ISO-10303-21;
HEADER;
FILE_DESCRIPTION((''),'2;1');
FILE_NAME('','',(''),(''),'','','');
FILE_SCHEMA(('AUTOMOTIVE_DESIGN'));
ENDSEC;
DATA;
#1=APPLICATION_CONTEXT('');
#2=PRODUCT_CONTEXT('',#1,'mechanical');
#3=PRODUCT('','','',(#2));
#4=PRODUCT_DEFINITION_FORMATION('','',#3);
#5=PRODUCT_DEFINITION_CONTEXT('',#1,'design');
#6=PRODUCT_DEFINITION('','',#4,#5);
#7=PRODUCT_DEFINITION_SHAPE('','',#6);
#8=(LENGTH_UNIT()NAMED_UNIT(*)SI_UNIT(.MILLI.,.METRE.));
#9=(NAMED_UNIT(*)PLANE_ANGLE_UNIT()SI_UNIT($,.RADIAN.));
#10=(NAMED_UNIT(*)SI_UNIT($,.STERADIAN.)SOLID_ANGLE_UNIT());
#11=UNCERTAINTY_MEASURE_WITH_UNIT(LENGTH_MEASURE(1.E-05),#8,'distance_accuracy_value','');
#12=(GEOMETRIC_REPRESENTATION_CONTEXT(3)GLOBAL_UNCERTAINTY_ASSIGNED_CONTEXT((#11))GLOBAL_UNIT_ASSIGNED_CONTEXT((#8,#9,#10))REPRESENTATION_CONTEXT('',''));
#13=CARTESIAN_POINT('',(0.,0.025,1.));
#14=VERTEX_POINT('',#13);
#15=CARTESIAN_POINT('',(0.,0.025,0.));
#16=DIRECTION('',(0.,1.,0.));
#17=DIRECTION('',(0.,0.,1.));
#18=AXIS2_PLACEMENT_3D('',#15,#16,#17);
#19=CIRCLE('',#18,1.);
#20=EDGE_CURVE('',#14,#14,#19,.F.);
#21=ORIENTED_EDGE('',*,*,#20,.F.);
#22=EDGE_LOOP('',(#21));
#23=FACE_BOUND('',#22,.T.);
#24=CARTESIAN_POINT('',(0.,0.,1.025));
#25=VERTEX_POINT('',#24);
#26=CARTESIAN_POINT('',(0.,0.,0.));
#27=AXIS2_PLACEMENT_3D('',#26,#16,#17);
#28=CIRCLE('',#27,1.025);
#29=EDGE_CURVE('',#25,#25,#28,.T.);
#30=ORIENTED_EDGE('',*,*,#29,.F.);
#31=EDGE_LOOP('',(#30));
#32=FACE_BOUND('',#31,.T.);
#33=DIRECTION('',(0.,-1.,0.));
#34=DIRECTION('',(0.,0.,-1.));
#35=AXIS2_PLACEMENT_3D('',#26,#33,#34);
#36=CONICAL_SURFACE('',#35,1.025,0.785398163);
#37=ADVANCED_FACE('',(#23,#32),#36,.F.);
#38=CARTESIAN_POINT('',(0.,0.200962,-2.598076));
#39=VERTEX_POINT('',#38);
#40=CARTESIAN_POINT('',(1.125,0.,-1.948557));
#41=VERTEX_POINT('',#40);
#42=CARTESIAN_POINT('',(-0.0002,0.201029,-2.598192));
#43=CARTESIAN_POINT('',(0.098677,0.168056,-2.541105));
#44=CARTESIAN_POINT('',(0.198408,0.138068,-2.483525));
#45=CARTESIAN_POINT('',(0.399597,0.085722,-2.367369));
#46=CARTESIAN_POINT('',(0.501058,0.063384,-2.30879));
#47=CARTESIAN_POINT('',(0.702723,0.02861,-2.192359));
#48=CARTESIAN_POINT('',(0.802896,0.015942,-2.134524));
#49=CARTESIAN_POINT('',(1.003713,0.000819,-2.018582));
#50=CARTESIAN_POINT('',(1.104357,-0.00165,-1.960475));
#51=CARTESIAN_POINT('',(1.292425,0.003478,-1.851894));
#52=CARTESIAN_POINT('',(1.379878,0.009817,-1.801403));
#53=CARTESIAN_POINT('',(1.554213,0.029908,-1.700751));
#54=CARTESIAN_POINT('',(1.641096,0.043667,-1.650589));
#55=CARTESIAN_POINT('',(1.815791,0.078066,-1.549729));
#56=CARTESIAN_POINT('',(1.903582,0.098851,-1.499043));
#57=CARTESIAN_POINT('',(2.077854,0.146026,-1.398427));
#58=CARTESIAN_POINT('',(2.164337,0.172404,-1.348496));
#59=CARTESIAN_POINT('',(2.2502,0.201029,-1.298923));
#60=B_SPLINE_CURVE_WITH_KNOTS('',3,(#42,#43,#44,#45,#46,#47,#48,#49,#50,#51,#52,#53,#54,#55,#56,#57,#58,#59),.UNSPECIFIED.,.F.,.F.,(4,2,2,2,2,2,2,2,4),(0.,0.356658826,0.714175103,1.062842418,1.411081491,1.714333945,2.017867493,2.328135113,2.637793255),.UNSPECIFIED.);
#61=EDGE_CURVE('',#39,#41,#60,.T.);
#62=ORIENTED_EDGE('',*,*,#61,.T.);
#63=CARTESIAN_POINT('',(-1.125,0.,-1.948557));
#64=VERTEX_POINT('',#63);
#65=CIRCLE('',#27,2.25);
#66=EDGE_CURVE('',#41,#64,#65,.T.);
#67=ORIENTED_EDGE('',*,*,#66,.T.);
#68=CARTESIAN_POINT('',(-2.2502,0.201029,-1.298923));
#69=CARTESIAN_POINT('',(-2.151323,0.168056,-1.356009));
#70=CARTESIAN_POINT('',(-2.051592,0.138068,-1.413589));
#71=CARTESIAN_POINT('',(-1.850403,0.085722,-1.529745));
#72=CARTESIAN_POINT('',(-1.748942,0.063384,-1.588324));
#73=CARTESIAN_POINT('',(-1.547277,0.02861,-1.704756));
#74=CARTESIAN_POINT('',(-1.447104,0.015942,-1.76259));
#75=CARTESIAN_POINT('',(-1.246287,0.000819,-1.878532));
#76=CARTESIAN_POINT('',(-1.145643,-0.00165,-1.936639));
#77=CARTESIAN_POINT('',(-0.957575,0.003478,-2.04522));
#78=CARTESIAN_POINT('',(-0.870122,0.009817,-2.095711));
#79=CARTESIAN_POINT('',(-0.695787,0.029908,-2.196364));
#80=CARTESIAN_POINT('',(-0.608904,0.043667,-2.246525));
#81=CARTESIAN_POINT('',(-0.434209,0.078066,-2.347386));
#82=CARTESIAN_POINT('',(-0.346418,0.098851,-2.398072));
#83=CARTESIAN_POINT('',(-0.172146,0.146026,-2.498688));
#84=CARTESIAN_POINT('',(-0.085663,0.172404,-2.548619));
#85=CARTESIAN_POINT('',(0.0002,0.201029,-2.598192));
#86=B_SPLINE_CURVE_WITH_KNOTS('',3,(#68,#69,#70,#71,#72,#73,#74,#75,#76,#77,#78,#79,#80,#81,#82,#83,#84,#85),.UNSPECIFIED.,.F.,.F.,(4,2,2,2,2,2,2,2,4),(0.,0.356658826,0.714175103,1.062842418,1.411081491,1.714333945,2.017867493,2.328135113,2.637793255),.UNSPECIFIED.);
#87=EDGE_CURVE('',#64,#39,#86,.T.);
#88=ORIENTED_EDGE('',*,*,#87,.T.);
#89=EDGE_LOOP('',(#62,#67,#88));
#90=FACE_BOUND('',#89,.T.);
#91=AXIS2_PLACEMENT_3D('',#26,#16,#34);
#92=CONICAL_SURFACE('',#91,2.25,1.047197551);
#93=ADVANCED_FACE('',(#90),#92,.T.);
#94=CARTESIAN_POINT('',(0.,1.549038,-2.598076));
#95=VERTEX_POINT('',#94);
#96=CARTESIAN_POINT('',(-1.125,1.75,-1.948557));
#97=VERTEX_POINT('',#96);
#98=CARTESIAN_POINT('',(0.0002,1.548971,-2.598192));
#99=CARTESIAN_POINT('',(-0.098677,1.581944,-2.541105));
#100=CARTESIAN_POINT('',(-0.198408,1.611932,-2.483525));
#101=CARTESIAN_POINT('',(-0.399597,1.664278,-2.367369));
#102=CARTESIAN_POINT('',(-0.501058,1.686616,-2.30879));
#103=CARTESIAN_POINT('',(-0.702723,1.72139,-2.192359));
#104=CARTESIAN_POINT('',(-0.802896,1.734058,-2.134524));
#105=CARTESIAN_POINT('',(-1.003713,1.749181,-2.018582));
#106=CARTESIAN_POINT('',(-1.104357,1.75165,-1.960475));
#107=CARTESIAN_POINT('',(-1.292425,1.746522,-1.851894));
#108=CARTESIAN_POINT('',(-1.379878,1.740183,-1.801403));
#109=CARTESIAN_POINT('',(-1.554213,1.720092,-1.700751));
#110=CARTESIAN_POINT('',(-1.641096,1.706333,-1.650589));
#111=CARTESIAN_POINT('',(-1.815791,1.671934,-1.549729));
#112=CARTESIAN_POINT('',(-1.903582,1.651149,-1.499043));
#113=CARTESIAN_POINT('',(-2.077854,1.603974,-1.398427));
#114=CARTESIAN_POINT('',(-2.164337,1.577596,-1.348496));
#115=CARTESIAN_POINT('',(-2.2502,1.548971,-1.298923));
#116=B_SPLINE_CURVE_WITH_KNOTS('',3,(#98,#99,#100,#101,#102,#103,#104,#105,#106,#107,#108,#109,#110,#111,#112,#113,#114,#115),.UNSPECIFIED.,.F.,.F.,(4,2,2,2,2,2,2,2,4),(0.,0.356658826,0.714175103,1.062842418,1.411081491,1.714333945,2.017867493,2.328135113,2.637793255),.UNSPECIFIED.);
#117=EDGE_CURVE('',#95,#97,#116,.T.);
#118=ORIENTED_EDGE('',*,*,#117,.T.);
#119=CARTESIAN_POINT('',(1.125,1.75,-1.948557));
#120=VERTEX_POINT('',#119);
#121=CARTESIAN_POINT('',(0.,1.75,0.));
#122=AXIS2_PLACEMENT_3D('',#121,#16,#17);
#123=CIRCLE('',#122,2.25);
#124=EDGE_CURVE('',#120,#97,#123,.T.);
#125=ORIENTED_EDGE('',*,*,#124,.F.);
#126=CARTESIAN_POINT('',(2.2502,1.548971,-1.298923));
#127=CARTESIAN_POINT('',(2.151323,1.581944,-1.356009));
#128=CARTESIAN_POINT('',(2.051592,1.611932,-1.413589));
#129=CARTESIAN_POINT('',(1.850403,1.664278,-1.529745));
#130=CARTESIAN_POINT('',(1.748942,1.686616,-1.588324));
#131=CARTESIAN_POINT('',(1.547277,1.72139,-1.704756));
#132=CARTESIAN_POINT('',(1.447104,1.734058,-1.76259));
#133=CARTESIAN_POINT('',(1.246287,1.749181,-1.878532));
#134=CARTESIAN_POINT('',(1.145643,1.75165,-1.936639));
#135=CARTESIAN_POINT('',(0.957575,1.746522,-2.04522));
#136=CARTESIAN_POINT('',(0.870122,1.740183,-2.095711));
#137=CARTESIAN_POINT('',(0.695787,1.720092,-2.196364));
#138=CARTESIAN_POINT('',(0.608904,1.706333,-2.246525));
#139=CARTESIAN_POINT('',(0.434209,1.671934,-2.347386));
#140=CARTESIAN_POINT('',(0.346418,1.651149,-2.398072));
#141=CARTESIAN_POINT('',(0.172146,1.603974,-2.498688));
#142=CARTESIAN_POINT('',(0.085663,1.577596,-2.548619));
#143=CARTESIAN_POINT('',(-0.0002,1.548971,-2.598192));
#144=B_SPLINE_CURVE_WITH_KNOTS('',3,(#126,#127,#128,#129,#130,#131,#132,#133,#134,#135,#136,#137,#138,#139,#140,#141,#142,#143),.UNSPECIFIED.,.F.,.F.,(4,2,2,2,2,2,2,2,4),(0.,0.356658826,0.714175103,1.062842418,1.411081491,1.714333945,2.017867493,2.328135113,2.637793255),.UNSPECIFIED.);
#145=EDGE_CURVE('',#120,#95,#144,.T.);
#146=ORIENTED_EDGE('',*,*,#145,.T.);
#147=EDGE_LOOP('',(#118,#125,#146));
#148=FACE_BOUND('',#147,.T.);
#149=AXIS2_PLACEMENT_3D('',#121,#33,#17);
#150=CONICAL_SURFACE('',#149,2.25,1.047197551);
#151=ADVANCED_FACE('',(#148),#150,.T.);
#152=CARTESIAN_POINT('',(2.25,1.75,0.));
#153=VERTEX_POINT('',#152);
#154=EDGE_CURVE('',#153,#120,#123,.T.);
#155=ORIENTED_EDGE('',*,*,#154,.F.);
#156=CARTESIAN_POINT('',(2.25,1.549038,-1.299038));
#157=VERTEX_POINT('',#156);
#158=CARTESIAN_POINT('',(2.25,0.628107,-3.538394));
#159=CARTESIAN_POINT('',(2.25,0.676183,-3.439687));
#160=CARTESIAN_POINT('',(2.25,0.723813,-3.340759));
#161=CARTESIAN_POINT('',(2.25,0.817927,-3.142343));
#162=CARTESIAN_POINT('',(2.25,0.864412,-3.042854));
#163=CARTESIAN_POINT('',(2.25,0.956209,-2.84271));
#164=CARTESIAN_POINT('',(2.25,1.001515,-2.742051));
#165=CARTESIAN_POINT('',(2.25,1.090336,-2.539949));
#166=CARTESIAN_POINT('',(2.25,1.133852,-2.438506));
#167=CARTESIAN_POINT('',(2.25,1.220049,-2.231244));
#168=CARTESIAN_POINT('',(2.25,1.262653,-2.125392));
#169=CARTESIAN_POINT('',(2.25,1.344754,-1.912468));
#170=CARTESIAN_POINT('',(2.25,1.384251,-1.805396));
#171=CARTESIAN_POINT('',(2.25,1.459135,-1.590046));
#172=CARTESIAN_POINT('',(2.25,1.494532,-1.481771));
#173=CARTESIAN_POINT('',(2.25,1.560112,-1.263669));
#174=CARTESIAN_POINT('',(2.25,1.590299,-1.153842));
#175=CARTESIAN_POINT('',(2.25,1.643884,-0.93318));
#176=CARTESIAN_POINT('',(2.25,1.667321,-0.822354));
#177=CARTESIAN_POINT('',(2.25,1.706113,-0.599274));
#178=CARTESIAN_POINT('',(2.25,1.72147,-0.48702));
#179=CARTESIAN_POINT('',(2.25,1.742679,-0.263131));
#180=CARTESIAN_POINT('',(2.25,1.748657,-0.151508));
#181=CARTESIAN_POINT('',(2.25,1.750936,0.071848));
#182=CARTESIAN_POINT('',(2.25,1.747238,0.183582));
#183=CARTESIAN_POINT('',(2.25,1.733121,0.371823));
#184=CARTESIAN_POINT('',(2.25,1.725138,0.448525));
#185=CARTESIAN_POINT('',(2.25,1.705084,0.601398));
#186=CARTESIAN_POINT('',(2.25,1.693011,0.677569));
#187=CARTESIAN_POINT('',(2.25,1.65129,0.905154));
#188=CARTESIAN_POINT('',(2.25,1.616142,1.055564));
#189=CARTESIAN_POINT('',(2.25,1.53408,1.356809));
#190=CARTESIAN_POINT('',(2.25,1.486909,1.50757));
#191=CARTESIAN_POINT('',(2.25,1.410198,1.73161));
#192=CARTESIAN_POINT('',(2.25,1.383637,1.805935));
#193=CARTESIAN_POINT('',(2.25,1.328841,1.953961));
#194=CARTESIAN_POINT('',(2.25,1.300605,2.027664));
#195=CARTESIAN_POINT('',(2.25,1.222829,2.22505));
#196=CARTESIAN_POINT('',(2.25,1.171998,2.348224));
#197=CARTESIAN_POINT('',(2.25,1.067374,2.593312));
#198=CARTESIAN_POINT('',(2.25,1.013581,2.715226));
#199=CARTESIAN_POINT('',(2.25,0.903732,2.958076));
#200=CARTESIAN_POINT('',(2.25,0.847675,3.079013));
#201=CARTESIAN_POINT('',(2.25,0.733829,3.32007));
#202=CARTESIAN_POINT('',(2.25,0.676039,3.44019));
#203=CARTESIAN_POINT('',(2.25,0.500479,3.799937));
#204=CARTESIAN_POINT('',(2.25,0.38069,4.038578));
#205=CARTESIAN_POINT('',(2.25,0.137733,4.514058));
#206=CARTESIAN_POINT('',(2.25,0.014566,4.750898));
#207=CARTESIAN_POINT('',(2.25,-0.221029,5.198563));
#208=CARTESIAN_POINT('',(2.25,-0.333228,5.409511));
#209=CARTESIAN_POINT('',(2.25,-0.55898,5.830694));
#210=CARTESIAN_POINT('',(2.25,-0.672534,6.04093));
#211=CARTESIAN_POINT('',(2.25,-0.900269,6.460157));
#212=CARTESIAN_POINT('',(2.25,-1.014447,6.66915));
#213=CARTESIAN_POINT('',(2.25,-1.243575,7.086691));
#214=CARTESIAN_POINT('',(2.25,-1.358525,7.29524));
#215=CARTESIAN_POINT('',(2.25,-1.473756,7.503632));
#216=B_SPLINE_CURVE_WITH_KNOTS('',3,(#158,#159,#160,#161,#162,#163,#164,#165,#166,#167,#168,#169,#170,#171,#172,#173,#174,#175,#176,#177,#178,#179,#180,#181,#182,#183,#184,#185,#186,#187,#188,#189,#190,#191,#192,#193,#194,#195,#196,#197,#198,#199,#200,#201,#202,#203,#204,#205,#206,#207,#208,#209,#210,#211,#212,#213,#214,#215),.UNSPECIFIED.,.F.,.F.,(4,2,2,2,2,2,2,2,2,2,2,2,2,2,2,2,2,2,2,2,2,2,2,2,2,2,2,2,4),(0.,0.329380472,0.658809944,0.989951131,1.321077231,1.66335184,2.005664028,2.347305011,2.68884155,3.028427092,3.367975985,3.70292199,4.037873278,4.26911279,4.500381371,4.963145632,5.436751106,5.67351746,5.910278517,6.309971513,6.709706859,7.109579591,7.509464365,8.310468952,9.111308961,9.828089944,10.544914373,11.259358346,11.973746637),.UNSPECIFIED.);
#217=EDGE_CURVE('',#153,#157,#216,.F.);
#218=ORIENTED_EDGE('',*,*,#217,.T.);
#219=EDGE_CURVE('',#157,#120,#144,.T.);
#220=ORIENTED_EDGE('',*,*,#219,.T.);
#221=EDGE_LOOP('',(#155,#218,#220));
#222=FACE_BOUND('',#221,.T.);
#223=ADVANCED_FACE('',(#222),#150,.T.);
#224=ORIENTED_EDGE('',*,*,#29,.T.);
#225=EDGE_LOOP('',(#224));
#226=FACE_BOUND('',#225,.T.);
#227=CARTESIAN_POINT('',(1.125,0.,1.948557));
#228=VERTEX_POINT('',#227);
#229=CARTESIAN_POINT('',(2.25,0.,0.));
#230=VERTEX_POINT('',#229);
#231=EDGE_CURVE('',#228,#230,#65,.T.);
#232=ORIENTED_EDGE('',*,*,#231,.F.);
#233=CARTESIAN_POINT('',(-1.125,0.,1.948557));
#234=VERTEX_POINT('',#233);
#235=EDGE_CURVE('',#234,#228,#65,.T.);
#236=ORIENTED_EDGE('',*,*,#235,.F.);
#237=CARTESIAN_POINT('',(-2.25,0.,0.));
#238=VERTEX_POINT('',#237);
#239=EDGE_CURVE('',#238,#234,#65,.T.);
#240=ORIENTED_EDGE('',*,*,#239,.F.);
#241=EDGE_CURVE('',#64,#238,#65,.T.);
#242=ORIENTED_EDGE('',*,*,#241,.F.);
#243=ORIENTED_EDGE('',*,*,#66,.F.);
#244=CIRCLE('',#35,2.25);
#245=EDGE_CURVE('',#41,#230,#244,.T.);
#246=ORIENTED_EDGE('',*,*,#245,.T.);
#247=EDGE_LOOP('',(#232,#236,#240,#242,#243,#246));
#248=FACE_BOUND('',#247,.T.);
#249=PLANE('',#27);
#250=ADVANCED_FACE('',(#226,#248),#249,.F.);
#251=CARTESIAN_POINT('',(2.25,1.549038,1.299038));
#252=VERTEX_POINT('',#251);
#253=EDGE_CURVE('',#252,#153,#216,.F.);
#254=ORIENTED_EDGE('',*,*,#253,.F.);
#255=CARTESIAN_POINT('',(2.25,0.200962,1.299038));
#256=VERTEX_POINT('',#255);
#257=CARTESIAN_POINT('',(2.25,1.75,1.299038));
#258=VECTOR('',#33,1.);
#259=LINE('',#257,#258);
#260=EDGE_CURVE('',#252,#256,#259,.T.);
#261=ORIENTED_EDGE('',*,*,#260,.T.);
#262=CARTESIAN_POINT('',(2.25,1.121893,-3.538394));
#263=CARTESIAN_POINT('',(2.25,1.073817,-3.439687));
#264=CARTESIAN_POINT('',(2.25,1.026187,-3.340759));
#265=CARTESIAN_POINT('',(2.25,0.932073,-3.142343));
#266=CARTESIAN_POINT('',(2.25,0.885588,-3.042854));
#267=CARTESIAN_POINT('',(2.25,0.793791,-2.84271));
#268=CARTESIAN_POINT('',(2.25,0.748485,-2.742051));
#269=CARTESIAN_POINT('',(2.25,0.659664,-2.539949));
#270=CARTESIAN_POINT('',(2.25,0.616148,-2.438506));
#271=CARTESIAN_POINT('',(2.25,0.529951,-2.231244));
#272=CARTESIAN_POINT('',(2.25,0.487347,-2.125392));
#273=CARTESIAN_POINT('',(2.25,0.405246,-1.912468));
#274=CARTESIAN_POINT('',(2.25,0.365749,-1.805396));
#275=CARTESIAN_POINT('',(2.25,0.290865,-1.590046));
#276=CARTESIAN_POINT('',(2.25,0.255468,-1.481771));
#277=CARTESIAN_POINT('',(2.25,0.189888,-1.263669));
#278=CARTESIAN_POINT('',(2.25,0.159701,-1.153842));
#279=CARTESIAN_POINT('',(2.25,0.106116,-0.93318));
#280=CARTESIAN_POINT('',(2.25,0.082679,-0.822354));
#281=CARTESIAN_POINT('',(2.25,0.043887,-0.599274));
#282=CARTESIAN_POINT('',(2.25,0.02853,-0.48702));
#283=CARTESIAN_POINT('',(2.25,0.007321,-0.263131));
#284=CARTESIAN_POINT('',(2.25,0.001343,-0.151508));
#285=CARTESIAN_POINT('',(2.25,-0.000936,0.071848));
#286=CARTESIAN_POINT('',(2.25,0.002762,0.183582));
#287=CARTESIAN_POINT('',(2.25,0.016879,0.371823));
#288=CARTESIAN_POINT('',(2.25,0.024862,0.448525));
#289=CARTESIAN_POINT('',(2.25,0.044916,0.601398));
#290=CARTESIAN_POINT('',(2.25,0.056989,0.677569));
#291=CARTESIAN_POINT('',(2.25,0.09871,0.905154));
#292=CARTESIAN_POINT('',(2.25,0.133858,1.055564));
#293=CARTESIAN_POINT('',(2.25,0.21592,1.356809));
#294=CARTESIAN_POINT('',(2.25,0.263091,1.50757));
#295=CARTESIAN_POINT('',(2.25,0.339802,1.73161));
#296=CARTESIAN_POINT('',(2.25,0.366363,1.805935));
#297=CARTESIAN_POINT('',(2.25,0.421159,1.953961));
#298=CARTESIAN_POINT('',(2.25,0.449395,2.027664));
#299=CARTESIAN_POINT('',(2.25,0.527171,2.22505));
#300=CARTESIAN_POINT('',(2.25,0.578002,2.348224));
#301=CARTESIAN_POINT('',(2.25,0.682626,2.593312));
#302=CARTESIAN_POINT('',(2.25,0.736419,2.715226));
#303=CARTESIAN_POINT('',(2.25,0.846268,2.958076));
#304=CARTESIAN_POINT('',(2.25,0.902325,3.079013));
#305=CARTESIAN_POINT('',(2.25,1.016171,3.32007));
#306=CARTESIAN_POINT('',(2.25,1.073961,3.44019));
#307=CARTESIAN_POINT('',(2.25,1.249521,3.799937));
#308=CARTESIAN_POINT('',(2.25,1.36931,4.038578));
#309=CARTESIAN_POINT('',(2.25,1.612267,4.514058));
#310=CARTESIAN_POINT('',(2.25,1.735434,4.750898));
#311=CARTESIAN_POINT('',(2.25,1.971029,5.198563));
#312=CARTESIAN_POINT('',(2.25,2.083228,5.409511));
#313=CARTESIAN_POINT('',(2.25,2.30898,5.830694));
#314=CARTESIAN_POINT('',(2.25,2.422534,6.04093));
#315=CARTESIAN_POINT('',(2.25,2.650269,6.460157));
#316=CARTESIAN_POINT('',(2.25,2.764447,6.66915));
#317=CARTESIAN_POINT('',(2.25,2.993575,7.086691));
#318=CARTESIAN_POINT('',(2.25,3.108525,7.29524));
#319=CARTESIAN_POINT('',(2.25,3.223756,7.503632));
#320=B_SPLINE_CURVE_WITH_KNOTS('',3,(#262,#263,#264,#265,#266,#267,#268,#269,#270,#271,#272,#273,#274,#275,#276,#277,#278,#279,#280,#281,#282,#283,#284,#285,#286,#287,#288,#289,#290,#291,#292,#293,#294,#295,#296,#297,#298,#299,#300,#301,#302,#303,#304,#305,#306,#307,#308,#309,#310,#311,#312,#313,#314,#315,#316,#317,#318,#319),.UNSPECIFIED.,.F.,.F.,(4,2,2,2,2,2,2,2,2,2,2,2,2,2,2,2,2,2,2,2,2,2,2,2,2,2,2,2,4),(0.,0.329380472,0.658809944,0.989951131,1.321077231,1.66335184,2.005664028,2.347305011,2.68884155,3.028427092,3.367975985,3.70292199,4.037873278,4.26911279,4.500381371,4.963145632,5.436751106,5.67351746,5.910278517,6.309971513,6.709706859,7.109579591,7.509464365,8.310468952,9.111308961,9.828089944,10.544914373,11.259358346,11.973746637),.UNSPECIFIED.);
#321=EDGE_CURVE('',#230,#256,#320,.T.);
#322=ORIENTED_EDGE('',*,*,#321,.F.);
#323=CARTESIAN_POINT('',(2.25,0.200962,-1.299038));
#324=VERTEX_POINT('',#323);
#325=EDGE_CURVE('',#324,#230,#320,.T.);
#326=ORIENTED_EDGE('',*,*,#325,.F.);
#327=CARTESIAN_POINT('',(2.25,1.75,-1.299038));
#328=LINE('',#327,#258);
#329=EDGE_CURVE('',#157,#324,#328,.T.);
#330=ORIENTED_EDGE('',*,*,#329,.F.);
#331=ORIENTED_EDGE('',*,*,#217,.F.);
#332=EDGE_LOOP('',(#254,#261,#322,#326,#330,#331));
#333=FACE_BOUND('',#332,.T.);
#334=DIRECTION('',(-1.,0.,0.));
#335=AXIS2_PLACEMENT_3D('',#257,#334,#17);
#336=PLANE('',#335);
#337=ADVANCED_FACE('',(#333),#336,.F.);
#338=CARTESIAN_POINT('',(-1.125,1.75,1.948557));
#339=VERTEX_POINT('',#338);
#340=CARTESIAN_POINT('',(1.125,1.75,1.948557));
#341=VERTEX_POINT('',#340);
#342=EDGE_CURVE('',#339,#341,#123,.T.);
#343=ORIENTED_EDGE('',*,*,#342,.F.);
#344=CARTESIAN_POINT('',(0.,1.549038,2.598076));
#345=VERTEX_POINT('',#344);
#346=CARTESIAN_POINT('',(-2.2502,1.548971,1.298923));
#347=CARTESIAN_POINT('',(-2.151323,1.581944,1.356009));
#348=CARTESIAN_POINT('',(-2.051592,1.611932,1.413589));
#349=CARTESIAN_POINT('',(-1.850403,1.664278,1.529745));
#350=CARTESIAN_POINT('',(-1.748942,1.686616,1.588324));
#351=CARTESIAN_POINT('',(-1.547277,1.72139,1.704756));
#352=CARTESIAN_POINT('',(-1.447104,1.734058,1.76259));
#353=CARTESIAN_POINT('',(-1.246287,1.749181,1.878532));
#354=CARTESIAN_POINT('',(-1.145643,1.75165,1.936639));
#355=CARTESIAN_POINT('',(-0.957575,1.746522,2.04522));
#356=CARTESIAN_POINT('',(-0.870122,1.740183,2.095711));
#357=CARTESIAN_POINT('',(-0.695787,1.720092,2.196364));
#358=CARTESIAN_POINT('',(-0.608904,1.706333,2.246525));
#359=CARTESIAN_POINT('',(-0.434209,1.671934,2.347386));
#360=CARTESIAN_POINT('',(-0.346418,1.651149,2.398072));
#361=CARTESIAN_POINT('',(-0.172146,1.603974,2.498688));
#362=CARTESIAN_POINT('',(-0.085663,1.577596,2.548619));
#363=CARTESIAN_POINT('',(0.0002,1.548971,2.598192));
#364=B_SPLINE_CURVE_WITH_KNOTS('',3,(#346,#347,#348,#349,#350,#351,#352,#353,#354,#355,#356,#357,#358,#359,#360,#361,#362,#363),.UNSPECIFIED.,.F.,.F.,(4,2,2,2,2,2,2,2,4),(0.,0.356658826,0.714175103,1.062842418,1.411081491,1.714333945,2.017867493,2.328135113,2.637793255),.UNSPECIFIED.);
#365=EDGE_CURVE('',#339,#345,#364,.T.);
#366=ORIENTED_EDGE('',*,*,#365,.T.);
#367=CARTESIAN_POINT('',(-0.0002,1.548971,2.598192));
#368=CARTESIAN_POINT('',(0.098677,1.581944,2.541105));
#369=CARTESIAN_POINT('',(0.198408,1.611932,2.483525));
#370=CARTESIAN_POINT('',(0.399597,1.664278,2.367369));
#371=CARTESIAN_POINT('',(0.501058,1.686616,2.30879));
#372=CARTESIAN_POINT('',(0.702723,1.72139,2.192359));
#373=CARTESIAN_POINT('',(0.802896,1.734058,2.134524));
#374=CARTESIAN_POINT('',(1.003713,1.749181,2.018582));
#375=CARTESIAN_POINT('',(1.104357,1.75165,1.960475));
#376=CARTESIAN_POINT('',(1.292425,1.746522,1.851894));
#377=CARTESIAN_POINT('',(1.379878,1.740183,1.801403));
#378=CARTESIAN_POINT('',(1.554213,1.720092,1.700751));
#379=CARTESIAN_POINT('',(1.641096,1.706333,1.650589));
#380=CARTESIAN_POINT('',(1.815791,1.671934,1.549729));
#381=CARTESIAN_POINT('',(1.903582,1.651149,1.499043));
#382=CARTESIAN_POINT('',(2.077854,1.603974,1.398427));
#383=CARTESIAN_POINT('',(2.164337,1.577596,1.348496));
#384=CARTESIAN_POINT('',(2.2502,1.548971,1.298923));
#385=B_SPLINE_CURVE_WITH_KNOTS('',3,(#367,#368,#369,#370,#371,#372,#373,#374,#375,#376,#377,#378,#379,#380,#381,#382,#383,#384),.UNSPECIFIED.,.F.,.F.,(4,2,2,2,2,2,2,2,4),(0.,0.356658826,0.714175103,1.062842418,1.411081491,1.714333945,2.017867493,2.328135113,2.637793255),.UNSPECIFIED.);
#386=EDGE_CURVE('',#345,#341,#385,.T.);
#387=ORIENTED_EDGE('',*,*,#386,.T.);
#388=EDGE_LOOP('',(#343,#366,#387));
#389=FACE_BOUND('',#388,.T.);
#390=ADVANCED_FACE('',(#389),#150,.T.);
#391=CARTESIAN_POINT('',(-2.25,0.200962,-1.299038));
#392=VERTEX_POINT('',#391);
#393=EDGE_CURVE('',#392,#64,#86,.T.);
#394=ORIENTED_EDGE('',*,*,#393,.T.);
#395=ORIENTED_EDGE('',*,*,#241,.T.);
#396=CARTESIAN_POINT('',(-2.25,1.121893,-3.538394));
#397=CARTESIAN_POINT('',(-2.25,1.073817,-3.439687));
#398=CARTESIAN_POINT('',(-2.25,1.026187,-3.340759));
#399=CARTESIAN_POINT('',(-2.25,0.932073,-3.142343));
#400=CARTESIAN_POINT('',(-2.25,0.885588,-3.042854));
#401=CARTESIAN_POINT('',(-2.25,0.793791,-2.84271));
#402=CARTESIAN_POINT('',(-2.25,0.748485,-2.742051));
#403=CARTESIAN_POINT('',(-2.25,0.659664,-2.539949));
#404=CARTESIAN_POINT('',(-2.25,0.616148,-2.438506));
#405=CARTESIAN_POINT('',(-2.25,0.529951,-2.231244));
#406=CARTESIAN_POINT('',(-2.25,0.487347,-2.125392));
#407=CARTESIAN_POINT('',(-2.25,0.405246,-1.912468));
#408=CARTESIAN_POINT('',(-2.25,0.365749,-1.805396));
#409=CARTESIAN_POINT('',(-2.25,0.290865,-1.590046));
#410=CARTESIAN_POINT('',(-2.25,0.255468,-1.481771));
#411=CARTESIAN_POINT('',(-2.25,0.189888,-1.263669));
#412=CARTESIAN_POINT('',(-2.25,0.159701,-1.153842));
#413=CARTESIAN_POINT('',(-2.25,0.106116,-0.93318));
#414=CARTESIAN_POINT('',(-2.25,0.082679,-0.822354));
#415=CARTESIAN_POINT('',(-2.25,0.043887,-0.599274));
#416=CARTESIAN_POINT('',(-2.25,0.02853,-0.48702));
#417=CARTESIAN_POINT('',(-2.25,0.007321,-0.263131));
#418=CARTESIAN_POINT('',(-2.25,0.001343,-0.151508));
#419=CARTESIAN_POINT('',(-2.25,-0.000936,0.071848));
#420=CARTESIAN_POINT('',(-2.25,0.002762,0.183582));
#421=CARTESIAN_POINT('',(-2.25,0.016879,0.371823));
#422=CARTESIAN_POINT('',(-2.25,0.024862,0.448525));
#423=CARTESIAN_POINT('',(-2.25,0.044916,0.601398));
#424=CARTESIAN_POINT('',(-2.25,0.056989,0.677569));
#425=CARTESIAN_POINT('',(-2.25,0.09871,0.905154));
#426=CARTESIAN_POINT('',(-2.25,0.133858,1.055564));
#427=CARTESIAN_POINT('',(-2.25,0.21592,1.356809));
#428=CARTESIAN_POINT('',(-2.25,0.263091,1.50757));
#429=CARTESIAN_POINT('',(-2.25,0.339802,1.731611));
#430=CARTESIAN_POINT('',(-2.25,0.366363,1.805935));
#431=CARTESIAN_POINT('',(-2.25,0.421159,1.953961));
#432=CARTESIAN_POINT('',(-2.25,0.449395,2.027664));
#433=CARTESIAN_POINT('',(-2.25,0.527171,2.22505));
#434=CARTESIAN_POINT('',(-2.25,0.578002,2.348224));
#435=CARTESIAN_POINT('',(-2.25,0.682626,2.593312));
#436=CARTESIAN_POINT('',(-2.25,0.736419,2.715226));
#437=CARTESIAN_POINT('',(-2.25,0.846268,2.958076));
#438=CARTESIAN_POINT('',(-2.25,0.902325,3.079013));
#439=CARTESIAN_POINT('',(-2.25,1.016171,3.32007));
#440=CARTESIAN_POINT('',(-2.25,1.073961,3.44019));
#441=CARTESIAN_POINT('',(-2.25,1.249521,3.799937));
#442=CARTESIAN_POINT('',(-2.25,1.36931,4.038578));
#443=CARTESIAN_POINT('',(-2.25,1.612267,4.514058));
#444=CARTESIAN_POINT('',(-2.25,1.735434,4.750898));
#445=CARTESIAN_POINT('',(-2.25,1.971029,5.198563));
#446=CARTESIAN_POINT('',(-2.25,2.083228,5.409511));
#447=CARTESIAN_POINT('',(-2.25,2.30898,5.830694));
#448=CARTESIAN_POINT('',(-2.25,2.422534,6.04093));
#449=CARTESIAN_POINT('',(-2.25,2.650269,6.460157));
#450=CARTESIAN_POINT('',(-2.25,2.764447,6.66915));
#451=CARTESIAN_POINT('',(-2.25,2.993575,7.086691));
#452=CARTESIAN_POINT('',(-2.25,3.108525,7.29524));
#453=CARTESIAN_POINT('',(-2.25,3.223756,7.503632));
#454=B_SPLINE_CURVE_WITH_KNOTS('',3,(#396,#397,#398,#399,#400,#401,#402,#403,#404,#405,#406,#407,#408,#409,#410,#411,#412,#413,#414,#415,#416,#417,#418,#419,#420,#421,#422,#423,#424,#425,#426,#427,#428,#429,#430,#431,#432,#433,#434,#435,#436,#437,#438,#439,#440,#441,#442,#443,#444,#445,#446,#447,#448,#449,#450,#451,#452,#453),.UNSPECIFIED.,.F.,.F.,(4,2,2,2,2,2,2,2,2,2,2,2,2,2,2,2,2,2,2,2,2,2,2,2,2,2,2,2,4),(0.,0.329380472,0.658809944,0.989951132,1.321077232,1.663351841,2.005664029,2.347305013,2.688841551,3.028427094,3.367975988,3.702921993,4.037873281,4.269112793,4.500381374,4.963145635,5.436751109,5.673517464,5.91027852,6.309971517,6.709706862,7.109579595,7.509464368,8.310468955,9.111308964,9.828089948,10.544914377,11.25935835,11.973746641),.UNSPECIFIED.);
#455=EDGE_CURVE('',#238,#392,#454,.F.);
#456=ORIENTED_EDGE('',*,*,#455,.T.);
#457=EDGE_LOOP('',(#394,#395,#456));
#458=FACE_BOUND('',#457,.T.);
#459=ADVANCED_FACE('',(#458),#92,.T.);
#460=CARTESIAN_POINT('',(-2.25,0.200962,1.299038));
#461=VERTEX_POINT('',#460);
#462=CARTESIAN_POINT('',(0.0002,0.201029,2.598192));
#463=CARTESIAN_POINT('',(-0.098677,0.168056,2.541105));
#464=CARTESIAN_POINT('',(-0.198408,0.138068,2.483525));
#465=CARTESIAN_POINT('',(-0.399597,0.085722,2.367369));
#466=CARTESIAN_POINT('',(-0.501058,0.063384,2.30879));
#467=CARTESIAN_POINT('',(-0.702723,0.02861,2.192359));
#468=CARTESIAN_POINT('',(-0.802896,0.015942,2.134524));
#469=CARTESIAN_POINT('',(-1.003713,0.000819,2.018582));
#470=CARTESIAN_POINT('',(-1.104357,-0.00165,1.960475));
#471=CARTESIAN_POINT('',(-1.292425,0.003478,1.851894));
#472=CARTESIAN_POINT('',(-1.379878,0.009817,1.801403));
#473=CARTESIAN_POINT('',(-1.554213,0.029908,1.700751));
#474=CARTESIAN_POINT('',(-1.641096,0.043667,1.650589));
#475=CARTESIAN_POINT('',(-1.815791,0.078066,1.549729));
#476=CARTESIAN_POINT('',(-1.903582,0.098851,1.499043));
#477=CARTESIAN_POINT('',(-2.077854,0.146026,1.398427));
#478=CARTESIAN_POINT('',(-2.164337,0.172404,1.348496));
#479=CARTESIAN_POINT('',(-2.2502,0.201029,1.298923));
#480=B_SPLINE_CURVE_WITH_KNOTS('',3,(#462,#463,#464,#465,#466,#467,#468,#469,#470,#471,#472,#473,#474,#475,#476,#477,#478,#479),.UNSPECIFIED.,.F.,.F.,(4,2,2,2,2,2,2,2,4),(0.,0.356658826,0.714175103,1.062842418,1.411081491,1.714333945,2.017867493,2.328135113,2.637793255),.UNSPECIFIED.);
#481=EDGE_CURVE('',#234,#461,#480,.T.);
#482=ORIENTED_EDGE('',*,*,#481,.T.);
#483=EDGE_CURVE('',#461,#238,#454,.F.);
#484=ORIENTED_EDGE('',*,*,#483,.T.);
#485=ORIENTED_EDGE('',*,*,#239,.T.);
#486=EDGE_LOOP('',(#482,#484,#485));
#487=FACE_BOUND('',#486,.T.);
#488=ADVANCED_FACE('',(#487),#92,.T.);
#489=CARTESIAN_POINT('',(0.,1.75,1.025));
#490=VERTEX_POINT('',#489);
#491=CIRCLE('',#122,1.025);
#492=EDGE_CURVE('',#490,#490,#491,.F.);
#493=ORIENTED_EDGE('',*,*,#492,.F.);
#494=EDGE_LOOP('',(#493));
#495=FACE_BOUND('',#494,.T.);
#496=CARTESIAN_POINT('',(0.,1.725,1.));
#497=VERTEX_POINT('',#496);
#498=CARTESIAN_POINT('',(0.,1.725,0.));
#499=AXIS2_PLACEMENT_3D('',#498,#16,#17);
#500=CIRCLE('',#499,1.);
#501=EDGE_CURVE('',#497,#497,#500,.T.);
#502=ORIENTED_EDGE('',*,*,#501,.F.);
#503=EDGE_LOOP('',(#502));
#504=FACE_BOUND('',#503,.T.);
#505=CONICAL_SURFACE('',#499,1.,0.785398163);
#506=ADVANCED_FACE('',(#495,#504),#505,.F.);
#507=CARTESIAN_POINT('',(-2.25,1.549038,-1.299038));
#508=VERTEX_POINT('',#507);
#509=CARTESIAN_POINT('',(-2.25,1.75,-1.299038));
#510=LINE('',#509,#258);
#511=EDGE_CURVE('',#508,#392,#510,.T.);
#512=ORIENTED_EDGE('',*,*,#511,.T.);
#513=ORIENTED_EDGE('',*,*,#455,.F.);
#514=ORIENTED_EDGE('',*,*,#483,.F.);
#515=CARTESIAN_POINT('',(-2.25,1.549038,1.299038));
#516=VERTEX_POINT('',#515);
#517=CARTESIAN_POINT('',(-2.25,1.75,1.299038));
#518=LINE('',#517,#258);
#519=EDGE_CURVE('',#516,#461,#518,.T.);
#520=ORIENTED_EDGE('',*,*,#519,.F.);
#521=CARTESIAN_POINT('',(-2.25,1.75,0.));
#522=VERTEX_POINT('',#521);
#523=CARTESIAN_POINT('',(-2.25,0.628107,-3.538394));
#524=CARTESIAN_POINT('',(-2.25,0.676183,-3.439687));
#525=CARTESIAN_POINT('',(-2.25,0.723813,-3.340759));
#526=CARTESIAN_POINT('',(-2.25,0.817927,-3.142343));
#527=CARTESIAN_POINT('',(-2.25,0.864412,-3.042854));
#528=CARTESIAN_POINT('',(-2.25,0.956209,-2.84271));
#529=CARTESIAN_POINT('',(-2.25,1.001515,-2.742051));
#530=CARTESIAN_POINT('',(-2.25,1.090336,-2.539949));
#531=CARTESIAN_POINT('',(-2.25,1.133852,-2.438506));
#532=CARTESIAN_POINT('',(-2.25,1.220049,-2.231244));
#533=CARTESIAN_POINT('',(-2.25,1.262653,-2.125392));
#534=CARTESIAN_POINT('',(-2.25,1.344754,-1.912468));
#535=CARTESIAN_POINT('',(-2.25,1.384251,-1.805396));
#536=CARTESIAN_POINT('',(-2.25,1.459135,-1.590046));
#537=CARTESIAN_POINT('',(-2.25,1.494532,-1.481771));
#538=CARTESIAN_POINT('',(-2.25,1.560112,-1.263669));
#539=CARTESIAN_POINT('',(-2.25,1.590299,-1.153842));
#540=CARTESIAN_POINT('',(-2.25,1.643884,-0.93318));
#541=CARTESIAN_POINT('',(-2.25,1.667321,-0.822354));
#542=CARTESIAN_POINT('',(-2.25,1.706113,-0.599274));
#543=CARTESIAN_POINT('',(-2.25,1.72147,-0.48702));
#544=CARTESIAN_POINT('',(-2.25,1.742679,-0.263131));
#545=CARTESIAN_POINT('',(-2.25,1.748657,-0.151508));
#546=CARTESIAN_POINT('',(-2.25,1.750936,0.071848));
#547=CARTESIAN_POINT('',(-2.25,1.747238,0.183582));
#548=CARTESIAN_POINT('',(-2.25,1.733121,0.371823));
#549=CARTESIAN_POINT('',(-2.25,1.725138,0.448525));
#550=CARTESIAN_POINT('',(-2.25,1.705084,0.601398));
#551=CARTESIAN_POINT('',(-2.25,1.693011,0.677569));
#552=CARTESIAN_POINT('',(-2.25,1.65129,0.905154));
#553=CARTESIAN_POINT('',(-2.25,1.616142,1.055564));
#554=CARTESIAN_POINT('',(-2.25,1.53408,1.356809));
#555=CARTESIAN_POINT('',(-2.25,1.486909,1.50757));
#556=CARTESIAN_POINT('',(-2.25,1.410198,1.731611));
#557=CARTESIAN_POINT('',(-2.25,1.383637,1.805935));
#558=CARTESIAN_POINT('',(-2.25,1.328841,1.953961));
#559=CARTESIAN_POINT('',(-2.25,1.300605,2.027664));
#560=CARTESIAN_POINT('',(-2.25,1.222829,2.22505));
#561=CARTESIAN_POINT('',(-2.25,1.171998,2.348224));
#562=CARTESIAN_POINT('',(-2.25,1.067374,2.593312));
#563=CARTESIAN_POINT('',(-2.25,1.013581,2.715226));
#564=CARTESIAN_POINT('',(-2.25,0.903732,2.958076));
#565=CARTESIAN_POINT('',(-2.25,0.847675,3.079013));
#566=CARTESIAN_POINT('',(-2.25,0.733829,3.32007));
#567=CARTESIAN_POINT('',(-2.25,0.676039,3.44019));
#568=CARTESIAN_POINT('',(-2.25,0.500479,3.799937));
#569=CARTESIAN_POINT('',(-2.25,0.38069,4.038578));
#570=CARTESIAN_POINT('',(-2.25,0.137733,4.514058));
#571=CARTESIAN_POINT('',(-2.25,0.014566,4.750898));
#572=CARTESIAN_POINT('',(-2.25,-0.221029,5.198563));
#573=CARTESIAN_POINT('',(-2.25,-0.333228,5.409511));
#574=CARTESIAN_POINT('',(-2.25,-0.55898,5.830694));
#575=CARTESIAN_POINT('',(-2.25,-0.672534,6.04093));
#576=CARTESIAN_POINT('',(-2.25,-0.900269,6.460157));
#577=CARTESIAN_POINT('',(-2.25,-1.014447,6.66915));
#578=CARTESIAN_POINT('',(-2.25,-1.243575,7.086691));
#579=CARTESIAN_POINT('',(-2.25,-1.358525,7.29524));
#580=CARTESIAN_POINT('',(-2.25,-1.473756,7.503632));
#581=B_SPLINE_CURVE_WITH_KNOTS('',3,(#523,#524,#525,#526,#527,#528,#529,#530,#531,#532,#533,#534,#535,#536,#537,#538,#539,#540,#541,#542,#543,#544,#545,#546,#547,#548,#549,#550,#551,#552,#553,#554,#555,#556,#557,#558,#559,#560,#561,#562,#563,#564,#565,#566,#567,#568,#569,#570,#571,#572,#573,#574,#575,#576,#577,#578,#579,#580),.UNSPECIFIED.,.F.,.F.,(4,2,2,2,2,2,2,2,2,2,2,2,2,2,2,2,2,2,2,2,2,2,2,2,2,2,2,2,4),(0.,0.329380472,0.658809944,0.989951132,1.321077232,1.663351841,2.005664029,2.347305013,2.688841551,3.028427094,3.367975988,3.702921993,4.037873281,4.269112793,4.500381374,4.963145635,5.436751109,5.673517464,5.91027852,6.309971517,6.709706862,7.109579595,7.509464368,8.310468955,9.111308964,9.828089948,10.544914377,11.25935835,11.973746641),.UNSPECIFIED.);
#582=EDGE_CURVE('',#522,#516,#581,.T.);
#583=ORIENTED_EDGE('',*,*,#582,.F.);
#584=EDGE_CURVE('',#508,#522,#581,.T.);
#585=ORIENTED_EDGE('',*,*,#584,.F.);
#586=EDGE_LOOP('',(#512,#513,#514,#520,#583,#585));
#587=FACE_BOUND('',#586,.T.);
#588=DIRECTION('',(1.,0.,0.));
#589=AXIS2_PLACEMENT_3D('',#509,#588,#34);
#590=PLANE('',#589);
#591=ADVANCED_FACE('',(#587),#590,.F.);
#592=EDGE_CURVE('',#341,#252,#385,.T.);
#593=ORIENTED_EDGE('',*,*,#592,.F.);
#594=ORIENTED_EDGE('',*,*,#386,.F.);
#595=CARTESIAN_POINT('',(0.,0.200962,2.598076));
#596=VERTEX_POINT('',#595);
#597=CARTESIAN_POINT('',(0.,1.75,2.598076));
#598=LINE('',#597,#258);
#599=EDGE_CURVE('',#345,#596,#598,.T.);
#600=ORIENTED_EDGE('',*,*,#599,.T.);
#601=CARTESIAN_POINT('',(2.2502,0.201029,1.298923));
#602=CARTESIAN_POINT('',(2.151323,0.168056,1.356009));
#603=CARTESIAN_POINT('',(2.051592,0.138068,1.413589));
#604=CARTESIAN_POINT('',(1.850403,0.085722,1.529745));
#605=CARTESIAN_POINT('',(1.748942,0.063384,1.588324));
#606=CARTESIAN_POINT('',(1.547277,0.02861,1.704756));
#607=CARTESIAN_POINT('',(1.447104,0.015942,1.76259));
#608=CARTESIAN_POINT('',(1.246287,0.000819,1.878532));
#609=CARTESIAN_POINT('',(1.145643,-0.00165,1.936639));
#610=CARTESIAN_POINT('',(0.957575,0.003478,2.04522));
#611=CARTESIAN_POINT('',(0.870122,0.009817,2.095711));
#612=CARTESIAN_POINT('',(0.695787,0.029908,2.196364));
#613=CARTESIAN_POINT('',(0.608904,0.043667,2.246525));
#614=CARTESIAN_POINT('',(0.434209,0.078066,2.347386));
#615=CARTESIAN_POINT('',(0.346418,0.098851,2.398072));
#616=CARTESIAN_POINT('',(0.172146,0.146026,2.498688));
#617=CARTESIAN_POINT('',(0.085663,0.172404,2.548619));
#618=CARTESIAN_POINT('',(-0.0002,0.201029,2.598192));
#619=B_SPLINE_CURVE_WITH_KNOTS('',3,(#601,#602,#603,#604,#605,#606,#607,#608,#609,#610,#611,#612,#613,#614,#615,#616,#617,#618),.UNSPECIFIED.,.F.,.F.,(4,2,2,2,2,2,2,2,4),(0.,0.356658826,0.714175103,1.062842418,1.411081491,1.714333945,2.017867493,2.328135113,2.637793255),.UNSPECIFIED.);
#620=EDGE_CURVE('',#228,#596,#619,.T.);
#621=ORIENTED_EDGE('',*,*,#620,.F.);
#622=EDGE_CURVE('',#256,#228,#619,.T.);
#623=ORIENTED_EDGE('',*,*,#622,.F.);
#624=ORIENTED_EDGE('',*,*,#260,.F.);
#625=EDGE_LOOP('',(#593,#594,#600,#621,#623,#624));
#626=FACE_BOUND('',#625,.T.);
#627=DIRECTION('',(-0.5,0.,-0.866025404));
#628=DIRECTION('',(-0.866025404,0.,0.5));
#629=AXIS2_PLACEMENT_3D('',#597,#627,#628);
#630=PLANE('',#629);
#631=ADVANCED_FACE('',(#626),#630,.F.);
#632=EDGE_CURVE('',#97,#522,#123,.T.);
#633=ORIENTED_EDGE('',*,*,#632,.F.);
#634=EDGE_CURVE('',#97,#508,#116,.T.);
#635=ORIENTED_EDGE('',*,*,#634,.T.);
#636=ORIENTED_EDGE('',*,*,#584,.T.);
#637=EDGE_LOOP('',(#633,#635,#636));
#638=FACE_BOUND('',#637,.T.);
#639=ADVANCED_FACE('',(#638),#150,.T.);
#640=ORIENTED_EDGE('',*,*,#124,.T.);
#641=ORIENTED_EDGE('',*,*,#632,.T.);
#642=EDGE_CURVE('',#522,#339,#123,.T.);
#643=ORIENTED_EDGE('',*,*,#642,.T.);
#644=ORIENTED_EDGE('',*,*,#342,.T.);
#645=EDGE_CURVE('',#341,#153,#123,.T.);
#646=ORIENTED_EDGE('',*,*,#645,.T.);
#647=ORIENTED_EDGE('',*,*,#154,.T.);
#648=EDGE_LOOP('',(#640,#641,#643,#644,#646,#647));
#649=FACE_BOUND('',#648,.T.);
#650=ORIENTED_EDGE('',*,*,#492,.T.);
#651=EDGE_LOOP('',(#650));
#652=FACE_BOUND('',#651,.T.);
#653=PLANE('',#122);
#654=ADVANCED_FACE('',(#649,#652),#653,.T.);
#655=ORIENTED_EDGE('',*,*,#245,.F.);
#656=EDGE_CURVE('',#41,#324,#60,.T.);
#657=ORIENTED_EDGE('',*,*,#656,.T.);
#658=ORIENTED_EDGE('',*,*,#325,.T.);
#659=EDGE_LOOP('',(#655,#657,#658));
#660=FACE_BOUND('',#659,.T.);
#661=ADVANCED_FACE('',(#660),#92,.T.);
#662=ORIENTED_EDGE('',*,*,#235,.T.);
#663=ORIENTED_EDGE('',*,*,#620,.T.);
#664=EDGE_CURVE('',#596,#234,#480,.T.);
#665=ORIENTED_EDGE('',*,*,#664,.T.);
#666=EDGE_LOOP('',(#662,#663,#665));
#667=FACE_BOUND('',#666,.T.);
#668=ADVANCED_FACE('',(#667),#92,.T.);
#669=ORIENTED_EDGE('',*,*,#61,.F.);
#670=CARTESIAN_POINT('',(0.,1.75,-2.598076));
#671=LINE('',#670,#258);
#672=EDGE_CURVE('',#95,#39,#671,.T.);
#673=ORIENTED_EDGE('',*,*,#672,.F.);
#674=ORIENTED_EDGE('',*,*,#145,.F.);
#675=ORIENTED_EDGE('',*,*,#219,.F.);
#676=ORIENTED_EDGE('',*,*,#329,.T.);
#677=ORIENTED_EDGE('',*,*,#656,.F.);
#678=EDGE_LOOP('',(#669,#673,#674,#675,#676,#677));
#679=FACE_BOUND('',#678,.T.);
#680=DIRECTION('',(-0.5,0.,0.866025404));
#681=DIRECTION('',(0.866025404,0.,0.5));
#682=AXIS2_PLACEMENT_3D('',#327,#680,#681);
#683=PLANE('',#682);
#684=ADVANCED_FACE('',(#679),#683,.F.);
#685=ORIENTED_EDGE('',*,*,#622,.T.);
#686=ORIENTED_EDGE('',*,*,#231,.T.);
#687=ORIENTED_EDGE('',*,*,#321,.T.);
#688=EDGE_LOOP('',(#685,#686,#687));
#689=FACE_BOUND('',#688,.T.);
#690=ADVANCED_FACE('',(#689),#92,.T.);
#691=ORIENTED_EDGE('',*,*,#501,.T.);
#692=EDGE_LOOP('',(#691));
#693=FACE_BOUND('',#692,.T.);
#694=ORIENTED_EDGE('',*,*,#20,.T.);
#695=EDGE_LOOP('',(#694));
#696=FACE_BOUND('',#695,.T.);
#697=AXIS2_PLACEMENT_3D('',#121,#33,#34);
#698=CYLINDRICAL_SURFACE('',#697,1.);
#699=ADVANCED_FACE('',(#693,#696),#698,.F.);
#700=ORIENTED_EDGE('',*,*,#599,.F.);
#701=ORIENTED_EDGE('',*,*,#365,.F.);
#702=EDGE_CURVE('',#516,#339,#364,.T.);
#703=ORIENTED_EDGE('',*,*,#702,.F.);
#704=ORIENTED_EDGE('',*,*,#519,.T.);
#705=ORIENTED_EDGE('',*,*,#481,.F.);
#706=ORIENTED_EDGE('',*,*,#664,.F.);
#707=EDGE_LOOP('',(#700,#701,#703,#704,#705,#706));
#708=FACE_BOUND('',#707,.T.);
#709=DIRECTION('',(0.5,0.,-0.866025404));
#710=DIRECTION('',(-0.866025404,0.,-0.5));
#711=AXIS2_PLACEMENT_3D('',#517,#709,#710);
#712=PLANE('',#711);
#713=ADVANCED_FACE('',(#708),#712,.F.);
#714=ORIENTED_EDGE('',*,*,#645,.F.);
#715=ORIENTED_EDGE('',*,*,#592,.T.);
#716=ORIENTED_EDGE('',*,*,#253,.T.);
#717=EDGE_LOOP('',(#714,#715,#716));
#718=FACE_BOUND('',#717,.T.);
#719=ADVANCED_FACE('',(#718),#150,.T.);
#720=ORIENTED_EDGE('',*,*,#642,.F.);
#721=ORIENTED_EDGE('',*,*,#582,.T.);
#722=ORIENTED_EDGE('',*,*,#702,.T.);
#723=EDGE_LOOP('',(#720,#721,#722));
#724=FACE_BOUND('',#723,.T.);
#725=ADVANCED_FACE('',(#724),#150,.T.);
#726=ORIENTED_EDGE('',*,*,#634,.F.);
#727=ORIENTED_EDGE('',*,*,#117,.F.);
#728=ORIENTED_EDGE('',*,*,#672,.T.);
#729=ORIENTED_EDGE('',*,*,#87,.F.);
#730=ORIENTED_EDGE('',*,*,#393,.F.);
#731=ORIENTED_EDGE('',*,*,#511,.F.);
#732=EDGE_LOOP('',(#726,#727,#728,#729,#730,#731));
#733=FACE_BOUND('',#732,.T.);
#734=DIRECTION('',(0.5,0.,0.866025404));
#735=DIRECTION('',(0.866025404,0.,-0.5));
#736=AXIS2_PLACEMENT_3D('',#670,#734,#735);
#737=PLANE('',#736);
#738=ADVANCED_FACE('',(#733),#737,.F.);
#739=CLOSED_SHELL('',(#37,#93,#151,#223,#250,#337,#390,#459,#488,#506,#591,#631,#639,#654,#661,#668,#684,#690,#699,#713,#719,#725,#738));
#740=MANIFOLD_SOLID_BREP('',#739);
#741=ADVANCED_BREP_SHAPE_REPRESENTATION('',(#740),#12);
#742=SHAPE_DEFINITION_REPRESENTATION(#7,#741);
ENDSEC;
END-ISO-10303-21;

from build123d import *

# Parameters (mm, degrees)
SKETCH1_R           = 1
BOSS_EXTRUDE1_DEPTH = 1.75
SKETCH2_OUTSIDE_W   = 13.98
SKETCH2_OUTSIDE_H   = 14.676
SKETCH2_OUTSIDE_R   = 2.25
CUT_EXTRUDE1_DEPTH  = 1.75
CUT_EXTRUDE1_TAPER  = 60
SKETCH3_OUTSIDE_W   = 13.98
SKETCH3_OUTSIDE_H   = 14.676
SKETCH3_OUTSIDE_R   = 2.25
CUT_EXTRUDE3_DEPTH  = 1.75
CUT_EXTRUDE3_TAPER  = 60
CHAMFER1_SIZE       = 0.025


with BuildPart() as part:
    # Sketch1 → Boss-Extrude1 (new body)
    with BuildSketch(Plane(origin=(0, 0, 0), x_dir=(1, 0, 0), z_dir=(0, 1, 0))):
        Polygon((0, -2.598076211), (2.25, -1.299038106), (2.25, 1.299038106), (0, 2.598076211), (-2.25, 1.299038106), (-2.25, -1.299038106), align=None)
        Circle(SKETCH1_R, mode=Mode.SUBTRACT)
    extrude(amount=BOSS_EXTRUDE1_DEPTH)

    # Sketch2 outside → Cut-Extrude1 (cut)
    with BuildSketch(Plane(origin=(0, 1.75, 0), x_dir=(1, 0, 0), z_dir=(0, 1, 0))):
        Rectangle(SKETCH2_OUTSIDE_W, SKETCH2_OUTSIDE_H)
        Circle(SKETCH2_OUTSIDE_R, mode=Mode.SUBTRACT)
    extrude(amount=-CUT_EXTRUDE1_DEPTH, taper=CUT_EXTRUDE1_TAPER, mode=Mode.SUBTRACT)

    # Sketch3 outside → Cut-Extrude3 (cut)
    with BuildSketch(Plane.XZ):
        Rectangle(SKETCH3_OUTSIDE_W, SKETCH3_OUTSIDE_H)
        Circle(SKETCH3_OUTSIDE_R, mode=Mode.SUBTRACT)
    extrude(amount=-CUT_EXTRUDE3_DEPTH, taper=CUT_EXTRUDE3_TAPER, mode=Mode.SUBTRACT)

    # Chamfer1
    chamfer1_edges = [part.edges().sort_by_distance(p)[0] for p in [
        (-1, 0, 0),
        (-1, 1.75, 0),
    ]]
    chamfer(chamfer1_edges, length=CHAMFER1_SIZE)


solid = part.part
